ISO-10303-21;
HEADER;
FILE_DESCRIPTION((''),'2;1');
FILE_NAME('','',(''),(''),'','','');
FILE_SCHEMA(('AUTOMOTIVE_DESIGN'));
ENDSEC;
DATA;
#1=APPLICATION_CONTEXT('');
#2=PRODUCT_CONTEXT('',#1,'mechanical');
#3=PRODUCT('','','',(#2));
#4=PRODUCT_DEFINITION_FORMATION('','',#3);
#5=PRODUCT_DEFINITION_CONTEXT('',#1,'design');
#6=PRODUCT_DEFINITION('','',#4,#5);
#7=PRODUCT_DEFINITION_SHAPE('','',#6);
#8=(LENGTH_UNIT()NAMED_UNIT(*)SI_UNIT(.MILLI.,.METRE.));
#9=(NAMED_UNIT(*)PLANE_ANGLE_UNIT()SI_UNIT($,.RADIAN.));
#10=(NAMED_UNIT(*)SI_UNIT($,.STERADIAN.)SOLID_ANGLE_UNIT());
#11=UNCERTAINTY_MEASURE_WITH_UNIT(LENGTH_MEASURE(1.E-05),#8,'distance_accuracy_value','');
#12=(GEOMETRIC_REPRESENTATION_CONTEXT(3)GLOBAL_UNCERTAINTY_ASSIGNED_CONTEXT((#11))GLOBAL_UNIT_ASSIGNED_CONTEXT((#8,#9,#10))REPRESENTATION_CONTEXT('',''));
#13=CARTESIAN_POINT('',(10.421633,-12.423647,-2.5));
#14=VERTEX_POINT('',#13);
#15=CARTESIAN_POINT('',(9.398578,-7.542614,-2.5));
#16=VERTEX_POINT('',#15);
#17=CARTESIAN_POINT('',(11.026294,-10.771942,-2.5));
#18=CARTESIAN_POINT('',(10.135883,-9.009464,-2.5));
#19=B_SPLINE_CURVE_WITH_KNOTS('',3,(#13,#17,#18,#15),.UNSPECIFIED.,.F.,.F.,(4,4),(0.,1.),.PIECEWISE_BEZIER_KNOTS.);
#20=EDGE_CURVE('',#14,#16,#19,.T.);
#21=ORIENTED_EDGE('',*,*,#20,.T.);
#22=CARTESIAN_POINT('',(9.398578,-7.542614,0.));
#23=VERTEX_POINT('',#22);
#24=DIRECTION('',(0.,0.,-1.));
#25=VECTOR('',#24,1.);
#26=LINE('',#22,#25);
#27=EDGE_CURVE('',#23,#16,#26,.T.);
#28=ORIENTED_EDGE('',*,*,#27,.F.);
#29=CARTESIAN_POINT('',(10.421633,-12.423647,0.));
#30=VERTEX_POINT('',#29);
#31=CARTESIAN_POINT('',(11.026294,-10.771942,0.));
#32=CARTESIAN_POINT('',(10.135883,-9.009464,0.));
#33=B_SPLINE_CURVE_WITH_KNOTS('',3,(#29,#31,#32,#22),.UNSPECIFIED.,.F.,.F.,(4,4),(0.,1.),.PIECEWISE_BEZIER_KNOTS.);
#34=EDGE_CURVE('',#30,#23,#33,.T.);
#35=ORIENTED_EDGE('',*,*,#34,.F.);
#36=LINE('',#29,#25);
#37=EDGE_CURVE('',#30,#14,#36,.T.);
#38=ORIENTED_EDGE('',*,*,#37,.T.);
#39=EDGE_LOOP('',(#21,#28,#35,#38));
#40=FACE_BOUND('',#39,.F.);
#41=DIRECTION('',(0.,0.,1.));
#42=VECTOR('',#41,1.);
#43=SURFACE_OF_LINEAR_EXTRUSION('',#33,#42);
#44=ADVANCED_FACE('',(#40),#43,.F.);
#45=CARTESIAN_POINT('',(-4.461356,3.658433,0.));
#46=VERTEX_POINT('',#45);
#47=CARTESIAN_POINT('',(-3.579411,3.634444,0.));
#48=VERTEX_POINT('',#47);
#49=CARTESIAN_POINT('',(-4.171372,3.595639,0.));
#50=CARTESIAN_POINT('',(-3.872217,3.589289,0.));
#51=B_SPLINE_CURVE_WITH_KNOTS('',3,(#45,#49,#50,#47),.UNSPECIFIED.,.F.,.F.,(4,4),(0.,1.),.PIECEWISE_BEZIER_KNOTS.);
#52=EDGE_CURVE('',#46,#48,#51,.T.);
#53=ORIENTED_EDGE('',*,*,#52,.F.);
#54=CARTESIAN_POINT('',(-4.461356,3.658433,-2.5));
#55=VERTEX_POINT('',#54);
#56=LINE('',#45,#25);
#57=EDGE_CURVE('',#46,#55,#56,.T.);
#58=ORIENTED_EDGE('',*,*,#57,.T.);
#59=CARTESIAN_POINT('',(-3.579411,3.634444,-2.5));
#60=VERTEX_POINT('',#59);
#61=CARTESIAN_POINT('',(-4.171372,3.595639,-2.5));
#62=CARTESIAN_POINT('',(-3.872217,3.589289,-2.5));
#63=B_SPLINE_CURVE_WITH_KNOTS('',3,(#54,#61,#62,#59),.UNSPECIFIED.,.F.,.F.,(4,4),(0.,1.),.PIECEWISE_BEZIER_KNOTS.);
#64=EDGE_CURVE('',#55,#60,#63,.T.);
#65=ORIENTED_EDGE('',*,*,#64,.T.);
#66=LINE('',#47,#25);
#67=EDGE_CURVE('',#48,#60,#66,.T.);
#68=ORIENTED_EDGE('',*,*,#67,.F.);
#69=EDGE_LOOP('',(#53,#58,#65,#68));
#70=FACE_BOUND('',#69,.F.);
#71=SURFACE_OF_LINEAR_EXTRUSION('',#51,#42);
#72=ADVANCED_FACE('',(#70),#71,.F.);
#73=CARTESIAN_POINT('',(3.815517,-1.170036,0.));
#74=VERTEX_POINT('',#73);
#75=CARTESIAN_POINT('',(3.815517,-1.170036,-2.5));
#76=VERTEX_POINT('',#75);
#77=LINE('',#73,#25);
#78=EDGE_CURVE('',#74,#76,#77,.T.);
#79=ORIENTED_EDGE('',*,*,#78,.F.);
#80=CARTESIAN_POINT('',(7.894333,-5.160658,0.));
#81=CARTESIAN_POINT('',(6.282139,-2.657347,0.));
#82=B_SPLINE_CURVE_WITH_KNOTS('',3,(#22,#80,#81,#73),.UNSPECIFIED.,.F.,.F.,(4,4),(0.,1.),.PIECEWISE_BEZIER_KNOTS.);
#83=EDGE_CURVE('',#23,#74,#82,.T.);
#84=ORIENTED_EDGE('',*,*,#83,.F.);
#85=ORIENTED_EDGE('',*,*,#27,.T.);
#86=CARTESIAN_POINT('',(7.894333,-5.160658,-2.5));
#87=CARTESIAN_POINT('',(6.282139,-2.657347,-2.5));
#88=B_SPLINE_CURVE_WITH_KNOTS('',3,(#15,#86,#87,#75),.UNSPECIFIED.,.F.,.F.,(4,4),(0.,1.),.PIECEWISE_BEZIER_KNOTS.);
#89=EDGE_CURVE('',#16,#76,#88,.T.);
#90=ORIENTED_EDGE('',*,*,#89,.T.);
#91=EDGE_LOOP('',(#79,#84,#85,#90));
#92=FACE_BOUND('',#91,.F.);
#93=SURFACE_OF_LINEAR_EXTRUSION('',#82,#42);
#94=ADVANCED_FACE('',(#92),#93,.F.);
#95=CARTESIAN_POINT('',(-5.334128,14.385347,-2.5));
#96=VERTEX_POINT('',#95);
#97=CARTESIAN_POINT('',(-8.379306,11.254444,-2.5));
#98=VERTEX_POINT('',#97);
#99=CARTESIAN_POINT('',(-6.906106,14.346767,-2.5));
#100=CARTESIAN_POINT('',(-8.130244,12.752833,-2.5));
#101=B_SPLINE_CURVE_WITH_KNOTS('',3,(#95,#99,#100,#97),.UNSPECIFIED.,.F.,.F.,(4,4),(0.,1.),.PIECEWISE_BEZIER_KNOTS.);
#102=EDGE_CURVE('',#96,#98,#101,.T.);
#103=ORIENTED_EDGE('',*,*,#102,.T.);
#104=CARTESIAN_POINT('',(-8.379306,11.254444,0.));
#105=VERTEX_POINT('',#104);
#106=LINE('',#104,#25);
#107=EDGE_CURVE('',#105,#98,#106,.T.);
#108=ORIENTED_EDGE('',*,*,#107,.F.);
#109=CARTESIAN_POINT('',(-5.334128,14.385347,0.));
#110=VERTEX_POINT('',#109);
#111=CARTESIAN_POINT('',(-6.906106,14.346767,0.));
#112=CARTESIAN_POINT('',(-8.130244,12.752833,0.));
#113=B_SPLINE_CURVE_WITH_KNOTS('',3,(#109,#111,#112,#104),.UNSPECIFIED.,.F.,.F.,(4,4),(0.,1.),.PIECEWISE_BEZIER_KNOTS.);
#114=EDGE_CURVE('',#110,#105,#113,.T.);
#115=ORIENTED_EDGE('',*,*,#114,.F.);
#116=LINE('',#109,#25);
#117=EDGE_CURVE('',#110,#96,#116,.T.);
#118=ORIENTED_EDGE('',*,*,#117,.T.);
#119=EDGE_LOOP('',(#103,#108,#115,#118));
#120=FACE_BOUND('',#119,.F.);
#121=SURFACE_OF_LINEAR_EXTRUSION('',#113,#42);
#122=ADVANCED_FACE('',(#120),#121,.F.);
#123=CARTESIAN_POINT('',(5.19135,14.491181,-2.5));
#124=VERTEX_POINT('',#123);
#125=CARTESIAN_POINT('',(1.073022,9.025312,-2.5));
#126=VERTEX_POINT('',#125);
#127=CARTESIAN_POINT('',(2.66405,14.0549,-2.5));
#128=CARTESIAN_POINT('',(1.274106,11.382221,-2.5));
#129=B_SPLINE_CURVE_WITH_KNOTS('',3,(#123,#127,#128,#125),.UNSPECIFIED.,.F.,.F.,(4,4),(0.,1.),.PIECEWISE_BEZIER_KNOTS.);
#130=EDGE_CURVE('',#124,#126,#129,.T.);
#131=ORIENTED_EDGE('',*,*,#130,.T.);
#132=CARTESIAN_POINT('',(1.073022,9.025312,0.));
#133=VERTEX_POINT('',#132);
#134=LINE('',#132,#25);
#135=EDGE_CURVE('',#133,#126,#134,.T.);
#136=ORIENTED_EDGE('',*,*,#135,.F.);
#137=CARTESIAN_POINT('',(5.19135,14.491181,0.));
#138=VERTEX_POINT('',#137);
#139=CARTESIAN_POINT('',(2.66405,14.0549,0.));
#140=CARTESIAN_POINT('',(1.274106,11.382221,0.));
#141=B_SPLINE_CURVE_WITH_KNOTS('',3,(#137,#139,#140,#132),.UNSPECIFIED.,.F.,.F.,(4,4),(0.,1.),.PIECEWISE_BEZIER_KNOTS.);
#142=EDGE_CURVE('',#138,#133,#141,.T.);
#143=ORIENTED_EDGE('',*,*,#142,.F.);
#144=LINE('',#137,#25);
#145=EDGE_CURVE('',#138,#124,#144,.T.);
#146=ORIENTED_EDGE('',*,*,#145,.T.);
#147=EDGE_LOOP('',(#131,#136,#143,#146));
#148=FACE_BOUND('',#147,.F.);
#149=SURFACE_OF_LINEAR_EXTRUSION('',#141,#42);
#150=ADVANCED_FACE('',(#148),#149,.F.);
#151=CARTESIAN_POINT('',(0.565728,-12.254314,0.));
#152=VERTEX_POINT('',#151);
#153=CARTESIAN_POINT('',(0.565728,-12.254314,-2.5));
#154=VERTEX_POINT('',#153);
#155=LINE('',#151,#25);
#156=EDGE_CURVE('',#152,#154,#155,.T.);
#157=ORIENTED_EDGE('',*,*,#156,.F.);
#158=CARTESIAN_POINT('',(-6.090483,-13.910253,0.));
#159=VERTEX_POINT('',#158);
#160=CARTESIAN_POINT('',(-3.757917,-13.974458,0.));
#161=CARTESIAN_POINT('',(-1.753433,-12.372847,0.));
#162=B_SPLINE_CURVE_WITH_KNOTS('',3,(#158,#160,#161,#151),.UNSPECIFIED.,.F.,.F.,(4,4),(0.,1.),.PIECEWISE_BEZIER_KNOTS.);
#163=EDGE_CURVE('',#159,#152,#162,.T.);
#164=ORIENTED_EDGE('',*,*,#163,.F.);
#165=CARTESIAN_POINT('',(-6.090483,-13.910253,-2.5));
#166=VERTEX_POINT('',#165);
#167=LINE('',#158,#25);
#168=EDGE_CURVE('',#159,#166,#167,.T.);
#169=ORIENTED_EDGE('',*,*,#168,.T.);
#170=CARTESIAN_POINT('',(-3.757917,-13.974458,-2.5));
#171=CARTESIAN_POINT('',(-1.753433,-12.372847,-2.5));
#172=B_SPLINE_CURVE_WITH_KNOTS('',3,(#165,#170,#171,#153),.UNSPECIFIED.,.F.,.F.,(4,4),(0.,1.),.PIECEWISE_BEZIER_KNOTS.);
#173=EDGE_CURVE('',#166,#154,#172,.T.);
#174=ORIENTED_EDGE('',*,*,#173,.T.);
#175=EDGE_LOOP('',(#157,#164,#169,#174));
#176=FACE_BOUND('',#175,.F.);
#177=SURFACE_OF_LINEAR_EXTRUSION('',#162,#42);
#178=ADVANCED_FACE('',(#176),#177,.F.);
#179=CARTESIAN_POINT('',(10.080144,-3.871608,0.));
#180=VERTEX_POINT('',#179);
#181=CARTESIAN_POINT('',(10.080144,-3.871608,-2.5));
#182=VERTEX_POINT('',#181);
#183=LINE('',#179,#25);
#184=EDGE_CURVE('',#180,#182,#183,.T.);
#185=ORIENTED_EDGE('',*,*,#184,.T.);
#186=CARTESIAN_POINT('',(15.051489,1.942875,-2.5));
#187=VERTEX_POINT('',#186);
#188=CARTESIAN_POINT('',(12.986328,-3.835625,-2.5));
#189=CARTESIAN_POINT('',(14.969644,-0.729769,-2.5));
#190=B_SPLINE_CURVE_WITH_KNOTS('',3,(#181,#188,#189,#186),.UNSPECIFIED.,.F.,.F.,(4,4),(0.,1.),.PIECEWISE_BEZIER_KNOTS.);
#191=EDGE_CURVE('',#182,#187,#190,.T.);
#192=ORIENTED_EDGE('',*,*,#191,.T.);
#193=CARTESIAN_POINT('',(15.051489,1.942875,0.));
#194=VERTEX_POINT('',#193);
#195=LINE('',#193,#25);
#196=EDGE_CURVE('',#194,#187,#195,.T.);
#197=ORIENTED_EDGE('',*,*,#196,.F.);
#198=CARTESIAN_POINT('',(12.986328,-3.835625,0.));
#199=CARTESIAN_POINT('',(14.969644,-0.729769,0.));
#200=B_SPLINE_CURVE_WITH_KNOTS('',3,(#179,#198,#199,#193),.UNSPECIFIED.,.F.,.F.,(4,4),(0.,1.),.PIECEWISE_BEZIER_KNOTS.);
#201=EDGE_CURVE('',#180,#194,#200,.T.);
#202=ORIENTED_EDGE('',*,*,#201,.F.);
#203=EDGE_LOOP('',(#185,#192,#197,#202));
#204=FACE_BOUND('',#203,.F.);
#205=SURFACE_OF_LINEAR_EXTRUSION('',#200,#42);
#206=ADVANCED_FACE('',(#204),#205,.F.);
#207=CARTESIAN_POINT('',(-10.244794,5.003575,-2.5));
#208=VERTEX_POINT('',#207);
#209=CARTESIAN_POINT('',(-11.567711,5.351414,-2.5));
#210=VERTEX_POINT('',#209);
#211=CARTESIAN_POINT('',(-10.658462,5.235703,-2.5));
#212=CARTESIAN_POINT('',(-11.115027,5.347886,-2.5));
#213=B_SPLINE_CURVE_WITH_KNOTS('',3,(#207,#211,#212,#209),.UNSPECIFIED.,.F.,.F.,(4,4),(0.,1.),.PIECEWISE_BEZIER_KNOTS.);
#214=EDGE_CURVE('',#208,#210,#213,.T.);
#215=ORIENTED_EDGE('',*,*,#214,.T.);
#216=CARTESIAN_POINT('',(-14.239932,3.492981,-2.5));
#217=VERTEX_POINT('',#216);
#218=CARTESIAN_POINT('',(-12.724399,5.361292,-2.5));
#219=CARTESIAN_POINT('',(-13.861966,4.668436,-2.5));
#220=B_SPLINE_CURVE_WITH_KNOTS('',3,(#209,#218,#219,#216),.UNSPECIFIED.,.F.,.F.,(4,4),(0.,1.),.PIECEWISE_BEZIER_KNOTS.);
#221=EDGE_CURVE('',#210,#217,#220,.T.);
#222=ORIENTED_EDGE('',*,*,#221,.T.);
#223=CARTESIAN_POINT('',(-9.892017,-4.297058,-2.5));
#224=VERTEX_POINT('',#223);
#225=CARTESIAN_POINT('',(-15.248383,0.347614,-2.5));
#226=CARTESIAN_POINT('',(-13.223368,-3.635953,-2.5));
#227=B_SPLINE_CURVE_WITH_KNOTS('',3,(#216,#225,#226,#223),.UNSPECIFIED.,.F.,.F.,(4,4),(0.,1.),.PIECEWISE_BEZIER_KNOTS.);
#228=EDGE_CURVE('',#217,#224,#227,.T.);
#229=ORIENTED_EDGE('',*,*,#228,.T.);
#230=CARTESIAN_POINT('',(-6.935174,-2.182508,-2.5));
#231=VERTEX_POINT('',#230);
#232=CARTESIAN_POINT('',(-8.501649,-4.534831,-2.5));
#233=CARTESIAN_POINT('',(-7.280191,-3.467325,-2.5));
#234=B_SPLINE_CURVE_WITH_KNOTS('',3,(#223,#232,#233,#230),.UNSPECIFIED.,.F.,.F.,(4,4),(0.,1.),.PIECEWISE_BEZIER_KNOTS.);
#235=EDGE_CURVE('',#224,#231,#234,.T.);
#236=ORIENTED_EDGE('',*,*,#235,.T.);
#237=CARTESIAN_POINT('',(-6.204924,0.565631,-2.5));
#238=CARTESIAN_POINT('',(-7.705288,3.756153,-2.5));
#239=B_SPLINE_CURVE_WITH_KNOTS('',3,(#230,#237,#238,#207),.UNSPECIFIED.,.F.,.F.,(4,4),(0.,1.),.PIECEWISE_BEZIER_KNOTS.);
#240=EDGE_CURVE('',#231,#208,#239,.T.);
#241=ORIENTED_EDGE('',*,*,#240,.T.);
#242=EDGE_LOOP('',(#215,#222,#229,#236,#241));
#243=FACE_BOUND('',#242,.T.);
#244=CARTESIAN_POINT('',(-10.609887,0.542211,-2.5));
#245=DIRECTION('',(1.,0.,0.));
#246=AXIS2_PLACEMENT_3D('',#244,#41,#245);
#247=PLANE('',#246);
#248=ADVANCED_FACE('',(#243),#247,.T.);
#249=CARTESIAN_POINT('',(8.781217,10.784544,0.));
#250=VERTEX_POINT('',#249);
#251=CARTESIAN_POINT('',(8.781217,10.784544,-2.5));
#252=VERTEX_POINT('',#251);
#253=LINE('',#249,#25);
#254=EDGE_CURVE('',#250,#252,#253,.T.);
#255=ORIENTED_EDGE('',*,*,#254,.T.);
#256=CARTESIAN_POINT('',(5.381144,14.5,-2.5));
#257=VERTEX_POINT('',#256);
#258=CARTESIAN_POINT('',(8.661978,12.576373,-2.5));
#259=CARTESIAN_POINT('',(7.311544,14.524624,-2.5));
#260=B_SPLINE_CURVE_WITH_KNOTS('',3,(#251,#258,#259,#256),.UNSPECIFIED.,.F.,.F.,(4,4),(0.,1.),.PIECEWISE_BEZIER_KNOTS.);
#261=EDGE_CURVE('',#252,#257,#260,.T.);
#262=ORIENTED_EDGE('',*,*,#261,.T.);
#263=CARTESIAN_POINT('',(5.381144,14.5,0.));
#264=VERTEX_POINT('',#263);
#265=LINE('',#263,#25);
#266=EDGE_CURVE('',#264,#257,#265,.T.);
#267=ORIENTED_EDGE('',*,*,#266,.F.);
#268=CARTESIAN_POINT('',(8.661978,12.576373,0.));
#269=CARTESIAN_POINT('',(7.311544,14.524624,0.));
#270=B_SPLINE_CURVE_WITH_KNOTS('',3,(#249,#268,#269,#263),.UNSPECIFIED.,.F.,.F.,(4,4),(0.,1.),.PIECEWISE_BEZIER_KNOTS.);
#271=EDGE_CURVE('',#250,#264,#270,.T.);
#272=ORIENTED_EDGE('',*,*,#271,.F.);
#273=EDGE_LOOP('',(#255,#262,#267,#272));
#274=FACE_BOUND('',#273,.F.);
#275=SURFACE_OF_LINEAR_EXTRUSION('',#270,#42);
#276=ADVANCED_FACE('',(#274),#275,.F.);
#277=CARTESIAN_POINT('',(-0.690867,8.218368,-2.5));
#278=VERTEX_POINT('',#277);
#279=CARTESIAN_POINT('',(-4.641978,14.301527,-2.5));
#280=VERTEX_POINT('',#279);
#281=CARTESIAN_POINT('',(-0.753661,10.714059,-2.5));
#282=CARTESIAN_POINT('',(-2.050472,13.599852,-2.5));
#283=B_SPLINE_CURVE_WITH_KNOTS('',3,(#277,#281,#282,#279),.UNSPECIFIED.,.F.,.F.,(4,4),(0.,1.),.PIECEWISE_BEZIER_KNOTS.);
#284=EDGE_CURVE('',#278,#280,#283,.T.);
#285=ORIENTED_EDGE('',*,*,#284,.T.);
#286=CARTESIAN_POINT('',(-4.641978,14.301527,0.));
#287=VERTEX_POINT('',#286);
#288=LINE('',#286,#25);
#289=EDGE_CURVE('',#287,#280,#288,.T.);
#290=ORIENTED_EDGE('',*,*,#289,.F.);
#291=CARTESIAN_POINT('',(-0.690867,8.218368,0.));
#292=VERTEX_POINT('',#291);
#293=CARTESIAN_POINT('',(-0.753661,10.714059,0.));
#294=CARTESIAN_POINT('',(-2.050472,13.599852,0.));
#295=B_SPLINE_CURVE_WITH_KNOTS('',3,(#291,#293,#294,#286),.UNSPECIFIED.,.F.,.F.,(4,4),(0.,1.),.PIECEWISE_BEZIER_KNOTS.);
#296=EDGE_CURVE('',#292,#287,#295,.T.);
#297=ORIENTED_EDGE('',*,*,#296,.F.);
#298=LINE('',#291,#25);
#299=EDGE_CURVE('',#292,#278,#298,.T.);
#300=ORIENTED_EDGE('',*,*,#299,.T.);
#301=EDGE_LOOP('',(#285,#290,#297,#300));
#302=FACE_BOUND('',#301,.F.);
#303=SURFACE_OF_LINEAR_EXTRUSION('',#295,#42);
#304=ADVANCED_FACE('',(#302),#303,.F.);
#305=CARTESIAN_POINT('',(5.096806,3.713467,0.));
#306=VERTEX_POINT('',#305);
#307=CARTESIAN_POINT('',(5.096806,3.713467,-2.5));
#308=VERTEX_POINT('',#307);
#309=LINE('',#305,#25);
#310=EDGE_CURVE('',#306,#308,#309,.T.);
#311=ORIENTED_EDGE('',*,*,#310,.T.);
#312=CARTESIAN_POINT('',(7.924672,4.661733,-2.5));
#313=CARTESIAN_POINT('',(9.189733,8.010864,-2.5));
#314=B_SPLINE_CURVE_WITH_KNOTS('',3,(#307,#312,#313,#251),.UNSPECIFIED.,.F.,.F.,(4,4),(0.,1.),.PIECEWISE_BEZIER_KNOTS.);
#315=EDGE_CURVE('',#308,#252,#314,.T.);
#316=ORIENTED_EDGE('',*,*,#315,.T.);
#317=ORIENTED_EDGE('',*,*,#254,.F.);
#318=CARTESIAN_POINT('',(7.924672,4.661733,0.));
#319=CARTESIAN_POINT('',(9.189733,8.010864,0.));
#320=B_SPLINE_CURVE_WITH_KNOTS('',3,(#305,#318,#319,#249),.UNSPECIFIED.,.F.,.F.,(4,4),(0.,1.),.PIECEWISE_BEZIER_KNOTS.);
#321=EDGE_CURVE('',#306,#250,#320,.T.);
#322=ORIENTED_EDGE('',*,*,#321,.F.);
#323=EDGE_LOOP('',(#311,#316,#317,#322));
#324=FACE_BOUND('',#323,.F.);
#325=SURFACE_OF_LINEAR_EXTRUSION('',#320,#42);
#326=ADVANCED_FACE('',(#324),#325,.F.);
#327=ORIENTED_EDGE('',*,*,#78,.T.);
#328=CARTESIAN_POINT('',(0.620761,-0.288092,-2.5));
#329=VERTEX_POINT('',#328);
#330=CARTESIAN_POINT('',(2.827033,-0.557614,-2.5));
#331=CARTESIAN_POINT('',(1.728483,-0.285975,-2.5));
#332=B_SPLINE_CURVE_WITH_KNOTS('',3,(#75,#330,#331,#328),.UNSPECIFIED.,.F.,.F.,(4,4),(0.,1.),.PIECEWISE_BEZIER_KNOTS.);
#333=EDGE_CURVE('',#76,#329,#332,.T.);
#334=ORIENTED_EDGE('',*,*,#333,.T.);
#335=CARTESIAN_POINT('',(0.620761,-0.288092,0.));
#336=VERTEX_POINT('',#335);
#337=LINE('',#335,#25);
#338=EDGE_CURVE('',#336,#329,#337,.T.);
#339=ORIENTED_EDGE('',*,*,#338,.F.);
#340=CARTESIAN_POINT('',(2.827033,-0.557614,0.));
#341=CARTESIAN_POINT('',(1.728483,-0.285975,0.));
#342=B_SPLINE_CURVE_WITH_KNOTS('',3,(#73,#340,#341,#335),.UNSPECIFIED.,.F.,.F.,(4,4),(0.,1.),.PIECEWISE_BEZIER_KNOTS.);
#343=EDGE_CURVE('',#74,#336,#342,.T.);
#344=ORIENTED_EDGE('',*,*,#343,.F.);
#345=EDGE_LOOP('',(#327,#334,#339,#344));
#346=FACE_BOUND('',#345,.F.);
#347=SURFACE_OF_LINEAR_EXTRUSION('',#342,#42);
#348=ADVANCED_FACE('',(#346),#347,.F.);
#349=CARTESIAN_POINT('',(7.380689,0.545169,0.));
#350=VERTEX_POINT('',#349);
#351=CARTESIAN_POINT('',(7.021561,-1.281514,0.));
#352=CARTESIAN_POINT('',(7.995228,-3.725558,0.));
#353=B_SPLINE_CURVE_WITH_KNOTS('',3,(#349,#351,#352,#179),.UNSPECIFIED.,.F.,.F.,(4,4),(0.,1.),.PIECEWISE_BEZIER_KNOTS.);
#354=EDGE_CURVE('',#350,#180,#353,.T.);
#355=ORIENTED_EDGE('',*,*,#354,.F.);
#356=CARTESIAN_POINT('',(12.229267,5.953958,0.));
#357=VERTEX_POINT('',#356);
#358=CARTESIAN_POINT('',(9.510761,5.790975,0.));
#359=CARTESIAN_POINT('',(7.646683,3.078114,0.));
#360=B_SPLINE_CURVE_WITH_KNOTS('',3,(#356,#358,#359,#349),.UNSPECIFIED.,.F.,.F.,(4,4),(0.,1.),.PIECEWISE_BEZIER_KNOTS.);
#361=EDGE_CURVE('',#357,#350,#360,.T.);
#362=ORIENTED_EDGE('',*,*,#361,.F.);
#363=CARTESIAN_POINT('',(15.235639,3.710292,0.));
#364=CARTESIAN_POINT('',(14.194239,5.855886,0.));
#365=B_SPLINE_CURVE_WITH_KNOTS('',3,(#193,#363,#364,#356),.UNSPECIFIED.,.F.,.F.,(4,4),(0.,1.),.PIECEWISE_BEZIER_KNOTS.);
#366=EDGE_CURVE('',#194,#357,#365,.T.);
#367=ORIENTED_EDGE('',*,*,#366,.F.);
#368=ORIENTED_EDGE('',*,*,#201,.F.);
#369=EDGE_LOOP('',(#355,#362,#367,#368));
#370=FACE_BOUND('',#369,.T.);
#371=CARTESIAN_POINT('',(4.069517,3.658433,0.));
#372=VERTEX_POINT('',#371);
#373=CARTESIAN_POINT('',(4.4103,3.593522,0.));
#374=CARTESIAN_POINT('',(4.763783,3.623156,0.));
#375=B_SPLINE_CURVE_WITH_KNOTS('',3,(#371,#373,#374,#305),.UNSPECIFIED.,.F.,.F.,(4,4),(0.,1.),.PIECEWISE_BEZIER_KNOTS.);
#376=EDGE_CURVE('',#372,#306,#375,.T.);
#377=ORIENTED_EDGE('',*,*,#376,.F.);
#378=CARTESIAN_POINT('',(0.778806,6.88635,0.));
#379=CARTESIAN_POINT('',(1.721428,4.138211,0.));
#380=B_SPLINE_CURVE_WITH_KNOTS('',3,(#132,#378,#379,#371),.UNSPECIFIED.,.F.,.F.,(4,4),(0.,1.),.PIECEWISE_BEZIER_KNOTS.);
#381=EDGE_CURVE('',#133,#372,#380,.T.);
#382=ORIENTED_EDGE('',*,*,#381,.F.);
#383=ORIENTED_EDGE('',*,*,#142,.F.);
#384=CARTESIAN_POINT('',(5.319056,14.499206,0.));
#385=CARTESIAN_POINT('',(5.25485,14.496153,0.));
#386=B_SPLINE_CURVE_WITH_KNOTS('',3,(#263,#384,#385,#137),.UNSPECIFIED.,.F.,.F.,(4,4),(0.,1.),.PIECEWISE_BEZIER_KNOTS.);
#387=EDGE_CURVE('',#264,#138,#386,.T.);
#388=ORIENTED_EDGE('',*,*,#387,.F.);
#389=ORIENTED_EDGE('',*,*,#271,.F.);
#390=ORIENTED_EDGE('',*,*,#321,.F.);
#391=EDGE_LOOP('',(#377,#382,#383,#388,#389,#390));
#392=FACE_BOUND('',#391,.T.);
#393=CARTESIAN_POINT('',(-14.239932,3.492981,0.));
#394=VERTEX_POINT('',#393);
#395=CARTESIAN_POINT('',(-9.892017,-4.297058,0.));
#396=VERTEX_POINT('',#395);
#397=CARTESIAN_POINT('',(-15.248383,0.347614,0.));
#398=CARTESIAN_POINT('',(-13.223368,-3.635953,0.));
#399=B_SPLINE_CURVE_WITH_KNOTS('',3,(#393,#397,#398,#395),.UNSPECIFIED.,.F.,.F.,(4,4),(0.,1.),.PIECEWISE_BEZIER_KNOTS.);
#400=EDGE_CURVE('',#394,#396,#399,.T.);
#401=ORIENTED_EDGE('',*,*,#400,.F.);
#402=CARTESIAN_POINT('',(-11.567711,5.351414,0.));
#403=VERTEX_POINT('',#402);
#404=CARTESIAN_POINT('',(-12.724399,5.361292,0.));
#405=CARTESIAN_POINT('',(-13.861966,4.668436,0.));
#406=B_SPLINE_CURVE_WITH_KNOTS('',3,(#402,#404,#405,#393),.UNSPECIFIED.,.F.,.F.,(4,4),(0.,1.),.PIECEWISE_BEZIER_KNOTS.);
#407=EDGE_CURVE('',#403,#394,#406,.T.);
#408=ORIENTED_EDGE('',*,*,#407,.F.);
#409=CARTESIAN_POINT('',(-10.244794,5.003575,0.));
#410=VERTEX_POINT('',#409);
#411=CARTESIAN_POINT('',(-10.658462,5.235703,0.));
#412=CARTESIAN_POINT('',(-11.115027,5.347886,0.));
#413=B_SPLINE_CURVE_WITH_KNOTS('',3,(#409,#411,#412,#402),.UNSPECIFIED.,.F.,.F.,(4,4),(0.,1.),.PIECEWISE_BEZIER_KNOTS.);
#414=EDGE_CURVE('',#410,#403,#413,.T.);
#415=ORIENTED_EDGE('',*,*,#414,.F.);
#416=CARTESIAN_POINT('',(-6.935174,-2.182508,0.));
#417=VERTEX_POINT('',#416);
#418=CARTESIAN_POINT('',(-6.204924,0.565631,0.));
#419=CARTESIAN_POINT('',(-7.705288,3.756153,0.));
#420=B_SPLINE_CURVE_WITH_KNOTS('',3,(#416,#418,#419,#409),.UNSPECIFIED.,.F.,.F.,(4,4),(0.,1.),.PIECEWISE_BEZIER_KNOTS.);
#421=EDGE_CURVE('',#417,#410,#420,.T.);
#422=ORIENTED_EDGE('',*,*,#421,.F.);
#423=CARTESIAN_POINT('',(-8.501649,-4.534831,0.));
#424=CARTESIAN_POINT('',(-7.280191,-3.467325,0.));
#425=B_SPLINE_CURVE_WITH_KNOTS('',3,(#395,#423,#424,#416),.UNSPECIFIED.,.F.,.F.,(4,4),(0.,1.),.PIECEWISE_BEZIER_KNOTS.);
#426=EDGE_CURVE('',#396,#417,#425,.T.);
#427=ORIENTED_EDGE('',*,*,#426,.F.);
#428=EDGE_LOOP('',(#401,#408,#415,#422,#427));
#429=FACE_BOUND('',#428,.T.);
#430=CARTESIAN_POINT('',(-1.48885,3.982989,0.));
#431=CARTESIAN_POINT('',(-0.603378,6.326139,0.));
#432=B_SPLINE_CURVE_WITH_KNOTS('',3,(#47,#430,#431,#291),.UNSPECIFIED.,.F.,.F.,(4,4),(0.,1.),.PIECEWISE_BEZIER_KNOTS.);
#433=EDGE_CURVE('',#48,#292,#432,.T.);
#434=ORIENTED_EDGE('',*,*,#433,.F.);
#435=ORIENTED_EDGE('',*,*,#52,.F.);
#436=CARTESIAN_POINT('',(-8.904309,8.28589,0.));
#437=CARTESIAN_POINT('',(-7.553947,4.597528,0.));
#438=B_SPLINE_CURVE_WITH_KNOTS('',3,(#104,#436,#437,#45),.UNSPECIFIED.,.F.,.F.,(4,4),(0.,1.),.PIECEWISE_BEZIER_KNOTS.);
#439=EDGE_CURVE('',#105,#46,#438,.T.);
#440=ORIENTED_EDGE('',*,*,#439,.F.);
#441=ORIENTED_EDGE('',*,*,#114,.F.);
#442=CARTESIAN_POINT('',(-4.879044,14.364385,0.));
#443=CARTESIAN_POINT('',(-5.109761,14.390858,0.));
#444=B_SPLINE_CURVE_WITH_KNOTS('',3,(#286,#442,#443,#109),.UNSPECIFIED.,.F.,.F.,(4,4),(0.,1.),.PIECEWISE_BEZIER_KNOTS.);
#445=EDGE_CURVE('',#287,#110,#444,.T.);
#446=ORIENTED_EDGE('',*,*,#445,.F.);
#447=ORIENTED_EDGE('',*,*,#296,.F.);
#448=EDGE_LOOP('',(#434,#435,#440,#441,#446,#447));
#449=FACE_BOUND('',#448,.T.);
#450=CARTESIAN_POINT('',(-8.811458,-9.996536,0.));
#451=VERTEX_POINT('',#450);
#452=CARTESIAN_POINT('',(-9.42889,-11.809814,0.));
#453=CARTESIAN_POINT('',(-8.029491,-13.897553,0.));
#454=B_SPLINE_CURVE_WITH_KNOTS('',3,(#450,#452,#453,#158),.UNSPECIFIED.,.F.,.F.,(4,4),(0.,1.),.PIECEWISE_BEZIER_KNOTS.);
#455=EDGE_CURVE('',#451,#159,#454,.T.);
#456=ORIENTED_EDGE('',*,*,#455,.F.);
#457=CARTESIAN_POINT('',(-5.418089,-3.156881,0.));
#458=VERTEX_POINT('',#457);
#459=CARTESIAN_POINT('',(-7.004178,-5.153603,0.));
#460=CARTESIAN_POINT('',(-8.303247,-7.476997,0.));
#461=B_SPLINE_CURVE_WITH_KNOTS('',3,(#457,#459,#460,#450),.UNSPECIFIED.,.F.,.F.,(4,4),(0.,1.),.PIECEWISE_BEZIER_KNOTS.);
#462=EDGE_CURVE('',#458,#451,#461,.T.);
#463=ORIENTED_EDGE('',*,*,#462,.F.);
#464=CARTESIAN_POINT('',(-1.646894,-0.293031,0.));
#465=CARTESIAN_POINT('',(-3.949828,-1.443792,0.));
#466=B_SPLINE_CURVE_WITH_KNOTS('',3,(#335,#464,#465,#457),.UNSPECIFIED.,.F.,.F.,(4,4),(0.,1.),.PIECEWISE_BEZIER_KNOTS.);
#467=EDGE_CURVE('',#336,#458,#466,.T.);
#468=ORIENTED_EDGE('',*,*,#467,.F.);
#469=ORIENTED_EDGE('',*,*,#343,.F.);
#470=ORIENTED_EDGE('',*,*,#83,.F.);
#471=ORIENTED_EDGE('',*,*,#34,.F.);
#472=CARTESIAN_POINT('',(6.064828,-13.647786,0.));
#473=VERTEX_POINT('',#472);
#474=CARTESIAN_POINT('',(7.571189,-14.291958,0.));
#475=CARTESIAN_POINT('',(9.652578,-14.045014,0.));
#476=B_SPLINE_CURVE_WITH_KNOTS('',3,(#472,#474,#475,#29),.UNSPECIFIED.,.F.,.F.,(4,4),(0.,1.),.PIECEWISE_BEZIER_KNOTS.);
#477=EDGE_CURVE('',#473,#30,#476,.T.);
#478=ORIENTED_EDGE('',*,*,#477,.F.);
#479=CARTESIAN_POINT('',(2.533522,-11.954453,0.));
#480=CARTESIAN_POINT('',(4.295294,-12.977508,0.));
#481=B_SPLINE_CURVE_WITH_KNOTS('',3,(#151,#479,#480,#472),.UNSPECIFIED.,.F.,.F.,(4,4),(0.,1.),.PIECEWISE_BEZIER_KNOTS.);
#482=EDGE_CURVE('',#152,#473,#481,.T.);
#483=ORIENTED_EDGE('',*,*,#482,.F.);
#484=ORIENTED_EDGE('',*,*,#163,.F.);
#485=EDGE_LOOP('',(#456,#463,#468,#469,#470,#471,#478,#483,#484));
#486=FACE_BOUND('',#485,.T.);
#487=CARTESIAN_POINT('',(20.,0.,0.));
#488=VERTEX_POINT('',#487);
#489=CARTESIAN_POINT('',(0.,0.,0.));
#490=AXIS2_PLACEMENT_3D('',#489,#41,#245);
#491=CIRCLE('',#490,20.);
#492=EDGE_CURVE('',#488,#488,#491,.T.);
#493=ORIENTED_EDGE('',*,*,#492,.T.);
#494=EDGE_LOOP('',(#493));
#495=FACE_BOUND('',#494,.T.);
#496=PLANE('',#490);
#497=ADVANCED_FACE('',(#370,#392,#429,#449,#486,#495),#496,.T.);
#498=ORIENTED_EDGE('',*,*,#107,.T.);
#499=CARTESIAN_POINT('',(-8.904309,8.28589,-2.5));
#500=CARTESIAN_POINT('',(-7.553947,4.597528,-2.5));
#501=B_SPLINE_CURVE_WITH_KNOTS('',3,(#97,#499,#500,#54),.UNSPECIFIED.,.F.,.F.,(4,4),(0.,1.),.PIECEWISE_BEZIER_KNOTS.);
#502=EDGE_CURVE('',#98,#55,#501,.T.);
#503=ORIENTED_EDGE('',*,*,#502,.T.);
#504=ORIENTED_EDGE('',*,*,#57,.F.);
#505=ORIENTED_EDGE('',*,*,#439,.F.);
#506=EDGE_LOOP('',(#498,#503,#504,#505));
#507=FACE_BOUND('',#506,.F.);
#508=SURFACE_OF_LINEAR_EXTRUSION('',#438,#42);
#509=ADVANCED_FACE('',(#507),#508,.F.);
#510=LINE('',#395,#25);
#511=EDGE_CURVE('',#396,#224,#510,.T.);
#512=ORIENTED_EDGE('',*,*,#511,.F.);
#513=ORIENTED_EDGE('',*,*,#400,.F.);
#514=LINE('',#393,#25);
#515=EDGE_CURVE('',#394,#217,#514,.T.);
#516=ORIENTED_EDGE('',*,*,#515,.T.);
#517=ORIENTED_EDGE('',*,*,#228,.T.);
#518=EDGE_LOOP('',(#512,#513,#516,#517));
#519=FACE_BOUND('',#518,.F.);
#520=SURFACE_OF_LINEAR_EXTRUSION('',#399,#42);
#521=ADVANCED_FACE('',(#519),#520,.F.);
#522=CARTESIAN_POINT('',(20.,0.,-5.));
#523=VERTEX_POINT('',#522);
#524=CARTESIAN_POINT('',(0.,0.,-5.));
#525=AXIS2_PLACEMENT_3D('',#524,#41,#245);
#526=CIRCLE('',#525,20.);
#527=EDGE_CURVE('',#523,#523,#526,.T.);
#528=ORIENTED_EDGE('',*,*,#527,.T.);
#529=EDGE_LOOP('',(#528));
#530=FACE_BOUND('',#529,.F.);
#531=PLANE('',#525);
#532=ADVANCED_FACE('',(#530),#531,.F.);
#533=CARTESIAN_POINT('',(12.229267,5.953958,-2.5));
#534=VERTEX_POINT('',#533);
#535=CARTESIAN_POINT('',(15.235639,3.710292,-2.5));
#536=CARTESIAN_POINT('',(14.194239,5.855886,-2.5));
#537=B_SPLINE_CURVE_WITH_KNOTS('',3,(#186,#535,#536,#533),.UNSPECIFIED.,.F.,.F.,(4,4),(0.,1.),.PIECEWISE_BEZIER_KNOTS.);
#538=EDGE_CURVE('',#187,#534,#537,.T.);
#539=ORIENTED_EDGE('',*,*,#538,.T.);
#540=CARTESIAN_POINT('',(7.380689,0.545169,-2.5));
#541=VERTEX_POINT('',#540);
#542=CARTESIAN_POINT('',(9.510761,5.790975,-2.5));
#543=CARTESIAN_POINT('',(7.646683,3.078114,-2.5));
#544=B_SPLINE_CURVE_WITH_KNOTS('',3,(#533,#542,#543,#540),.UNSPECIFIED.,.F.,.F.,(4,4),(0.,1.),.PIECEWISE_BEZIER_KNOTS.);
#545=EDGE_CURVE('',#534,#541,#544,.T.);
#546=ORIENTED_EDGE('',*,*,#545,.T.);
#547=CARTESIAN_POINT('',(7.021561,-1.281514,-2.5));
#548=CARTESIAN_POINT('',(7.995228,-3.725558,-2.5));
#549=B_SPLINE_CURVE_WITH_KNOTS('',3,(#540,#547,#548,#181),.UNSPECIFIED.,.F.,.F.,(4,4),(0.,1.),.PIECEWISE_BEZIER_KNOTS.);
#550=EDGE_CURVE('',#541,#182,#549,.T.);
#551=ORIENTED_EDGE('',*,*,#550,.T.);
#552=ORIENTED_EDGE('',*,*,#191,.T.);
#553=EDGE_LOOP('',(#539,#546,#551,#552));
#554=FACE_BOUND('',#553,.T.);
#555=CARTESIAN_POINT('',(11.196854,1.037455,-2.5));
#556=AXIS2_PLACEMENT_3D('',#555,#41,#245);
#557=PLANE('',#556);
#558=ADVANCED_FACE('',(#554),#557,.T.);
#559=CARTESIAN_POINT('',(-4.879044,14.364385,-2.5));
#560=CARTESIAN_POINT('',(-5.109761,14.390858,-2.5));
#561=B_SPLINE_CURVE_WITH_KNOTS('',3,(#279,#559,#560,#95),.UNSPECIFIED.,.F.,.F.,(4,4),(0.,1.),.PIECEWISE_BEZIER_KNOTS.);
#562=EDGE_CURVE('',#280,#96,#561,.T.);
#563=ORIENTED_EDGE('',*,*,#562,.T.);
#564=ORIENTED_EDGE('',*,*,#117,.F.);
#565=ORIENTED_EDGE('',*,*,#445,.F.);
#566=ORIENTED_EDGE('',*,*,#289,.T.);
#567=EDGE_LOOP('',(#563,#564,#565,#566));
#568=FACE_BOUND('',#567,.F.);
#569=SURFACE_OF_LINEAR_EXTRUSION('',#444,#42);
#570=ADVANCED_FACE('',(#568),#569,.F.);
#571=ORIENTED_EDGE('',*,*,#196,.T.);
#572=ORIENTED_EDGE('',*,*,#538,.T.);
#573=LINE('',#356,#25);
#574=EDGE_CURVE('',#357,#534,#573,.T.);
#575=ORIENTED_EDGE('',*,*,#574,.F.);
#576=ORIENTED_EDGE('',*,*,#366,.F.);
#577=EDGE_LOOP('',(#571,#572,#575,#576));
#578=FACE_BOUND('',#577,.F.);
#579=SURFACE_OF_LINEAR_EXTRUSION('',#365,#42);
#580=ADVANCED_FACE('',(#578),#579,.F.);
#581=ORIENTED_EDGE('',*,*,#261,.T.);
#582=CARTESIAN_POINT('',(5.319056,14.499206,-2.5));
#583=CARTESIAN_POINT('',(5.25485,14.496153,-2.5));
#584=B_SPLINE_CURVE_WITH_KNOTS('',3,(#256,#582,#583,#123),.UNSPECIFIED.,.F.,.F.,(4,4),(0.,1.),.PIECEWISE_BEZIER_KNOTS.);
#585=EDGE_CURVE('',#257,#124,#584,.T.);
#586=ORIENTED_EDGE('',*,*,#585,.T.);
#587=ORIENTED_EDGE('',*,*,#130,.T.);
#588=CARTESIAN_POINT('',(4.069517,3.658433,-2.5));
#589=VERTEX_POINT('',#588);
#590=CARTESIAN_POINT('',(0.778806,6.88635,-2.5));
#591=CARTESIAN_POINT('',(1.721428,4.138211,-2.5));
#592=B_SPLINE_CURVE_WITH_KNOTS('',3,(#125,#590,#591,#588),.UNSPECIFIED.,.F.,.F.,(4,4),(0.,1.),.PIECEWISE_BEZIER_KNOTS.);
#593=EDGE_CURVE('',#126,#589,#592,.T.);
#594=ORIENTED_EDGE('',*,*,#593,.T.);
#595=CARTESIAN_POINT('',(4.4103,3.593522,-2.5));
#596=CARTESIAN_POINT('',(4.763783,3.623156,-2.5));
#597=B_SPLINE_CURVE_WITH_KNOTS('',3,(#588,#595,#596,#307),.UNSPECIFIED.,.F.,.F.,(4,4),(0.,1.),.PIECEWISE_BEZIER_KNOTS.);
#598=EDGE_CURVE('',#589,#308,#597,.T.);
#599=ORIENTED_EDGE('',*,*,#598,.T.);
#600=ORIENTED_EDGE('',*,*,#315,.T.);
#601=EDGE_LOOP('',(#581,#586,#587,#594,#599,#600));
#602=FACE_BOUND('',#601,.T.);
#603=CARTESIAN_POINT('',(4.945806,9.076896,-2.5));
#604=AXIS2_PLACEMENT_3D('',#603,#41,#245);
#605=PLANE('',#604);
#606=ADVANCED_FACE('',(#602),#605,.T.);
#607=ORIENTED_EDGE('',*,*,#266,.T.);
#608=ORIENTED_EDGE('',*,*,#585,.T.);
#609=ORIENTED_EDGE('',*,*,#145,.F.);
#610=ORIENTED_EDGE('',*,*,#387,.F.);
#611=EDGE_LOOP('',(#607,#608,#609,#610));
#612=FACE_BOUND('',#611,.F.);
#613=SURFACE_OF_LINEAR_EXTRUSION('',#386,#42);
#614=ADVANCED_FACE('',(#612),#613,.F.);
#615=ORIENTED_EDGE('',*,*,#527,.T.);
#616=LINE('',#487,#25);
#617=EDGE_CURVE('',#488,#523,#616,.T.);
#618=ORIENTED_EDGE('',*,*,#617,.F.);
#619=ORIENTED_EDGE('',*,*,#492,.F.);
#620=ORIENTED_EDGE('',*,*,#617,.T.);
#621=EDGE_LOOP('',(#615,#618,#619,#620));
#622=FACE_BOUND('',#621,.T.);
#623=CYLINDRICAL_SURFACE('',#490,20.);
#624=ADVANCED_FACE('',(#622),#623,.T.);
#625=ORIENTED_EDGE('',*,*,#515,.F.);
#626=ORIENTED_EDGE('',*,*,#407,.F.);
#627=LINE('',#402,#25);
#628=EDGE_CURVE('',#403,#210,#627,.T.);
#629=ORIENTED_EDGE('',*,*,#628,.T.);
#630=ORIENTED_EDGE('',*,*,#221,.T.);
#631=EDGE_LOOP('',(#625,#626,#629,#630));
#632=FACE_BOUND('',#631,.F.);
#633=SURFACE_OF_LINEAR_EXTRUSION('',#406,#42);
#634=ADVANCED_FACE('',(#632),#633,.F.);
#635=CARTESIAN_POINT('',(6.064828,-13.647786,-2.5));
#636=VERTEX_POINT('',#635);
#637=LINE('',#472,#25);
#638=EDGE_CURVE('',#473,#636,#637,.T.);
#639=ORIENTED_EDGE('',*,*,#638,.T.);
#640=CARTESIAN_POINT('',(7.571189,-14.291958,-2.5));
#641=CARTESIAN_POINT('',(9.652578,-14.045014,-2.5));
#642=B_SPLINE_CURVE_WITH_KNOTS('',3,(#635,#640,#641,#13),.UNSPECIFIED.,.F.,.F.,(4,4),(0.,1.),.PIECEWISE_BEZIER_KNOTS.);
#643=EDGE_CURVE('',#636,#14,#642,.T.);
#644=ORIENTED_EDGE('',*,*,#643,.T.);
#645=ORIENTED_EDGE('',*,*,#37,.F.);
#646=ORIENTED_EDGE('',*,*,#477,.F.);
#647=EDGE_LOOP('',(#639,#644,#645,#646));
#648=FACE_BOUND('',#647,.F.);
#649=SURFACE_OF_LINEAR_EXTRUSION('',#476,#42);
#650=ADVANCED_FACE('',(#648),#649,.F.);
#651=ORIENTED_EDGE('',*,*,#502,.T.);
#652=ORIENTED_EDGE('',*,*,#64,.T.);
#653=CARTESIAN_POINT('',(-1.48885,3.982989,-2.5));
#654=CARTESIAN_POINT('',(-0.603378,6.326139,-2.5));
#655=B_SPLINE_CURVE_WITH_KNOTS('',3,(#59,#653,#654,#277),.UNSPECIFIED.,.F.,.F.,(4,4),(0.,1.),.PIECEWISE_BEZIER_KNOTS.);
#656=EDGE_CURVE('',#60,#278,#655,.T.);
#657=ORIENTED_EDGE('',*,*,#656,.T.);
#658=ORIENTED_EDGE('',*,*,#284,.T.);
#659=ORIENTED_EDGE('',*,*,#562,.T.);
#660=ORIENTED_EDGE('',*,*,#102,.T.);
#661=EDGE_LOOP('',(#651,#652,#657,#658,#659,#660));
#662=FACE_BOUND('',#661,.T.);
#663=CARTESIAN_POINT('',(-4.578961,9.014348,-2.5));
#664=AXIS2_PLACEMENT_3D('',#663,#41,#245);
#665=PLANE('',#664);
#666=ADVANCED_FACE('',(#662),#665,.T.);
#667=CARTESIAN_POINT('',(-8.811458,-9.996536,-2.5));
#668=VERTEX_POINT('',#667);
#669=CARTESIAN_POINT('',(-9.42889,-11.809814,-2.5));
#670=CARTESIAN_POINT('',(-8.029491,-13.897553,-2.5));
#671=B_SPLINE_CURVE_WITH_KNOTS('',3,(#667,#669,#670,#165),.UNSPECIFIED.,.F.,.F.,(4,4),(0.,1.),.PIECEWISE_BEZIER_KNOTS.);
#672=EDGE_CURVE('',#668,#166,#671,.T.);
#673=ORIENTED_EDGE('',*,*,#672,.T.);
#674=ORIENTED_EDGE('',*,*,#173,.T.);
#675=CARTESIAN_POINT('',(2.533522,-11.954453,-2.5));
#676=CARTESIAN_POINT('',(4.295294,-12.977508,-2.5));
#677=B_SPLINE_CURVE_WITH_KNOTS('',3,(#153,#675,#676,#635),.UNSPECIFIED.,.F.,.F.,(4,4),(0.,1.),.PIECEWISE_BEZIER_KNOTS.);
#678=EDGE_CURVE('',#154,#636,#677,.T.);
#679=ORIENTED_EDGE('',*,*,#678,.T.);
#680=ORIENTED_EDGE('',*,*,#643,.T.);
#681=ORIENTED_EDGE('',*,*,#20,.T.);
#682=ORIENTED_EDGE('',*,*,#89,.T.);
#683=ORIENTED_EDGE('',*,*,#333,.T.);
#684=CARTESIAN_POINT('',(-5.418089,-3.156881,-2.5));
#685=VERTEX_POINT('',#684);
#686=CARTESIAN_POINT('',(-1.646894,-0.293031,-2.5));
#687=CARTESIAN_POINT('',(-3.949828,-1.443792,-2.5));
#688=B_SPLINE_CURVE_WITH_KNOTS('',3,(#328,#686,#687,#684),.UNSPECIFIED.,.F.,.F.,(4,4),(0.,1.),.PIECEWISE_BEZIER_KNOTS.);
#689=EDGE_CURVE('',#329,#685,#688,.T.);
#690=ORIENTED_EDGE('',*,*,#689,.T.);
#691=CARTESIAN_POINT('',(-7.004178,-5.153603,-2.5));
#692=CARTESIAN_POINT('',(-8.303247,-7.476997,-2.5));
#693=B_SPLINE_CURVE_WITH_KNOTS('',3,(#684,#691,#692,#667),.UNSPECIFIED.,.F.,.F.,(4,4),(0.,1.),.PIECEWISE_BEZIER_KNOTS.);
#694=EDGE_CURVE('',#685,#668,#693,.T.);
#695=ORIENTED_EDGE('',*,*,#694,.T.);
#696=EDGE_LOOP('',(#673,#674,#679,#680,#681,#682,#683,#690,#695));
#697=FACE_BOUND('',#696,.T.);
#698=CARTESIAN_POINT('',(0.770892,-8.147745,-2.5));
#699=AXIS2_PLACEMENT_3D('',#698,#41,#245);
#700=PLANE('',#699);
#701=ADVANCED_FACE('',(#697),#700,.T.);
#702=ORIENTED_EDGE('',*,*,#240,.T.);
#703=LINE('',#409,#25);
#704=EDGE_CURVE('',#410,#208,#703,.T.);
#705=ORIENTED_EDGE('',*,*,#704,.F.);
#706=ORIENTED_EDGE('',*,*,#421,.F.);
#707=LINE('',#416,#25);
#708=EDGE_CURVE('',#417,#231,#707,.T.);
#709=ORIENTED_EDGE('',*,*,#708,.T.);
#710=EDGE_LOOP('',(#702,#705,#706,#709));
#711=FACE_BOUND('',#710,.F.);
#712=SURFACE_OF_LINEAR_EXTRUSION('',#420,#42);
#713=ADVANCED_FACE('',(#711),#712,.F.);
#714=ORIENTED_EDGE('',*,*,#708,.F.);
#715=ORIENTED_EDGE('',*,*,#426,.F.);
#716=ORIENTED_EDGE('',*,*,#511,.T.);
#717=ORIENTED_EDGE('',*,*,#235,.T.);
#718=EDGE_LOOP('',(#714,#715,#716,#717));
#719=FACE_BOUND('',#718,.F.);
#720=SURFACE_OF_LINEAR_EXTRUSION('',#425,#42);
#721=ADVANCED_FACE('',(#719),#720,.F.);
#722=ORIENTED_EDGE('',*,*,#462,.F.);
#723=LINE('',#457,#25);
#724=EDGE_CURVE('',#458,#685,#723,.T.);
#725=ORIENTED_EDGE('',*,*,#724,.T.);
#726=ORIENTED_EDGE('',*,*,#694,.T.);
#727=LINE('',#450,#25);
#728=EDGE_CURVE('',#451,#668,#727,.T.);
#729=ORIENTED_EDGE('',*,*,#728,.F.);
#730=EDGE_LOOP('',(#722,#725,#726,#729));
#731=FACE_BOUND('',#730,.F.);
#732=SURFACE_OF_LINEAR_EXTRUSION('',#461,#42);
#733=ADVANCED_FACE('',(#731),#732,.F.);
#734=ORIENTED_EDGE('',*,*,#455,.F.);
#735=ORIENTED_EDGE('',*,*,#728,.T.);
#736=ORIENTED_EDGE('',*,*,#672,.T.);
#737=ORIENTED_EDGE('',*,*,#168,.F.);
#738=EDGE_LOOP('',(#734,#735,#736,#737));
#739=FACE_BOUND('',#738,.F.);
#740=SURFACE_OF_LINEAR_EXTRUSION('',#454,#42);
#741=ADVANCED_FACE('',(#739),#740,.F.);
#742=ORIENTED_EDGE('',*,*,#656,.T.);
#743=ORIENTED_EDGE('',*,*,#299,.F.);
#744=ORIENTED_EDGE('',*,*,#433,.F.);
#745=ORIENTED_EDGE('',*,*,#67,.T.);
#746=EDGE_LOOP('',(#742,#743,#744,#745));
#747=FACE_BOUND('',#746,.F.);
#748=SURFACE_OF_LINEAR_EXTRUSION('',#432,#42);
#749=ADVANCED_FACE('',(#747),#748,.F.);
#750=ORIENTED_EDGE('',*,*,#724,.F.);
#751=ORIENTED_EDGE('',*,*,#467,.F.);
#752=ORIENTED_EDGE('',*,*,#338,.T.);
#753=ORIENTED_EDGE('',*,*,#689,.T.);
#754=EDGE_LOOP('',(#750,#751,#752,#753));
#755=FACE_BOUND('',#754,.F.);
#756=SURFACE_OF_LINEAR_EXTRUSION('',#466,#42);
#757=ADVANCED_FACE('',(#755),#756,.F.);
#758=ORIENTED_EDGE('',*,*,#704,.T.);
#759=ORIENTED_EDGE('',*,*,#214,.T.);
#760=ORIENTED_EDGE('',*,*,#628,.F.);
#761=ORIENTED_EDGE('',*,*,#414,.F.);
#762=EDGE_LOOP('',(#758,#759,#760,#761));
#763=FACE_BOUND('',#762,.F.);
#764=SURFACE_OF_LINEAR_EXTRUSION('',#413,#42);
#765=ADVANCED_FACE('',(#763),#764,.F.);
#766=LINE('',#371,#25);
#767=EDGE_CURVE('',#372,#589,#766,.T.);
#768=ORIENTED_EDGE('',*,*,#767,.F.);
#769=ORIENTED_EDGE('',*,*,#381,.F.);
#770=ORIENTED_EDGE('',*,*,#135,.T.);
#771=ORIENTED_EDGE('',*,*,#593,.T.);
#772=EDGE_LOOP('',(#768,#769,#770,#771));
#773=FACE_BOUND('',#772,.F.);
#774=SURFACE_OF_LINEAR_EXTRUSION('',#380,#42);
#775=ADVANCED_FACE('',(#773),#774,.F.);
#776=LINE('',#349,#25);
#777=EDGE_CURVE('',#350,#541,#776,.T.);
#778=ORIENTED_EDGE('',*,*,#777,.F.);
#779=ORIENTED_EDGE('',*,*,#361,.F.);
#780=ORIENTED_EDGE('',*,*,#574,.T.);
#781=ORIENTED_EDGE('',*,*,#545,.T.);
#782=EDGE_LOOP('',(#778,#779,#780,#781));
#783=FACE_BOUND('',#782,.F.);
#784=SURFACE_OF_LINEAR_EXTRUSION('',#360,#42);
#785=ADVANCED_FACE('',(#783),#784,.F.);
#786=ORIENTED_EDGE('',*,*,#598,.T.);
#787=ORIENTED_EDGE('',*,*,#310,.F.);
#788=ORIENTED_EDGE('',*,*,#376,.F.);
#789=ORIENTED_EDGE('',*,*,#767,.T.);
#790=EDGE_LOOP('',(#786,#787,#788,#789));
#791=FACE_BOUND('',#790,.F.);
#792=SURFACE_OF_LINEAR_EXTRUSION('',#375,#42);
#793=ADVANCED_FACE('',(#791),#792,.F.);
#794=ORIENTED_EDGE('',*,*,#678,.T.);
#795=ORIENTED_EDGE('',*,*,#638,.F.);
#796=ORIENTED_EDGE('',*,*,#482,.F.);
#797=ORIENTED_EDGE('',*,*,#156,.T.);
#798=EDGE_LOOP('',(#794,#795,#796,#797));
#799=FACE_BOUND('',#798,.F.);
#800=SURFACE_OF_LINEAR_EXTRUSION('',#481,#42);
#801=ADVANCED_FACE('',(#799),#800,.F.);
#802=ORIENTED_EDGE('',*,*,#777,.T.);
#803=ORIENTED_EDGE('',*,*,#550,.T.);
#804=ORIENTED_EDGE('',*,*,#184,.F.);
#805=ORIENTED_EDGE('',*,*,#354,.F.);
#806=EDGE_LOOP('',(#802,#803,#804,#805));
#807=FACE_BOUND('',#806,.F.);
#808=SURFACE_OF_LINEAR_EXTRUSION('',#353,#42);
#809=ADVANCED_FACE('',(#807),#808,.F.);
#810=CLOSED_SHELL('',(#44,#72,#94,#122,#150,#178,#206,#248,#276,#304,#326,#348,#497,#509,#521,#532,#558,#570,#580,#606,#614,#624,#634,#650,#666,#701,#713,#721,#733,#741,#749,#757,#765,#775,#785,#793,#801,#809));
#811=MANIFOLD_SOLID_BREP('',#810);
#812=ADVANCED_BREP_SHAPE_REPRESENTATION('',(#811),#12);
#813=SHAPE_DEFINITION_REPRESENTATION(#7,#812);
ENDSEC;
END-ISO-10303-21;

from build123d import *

# Parameters (mm, degrees)
SKETCH001_R  = 20
PAD_DEPTH    = 5
POCKET_DEPTH = 2.5


with BuildPart() as part:
    # Sketch001 (on DatumPlane) → Pad (new body)
    with BuildSketch(Plane.XY):
        Circle(SKETCH001_R)
    extrude(amount=-PAD_DEPTH)

    # Sketch (on DatumPlane) → Pocket (cut)
    with BuildSketch(Plane(origin=(-14.5, 14.5, 0), x_dir=(1, 0, 0), z_dir=(0, 0, 1))):
        with BuildLine():
            add(Edge.make_bspline(
                [(19.881144, 0), (19.819056, -0.000794), (19.75485, -0.003847), (19.69135, -0.008819)],
                knots=[0, 0, 0, 0, 1, 1, 1, 1], degree=3))
            add(Edge.make_bspline(
                [(19.69135, -0.008819), (17.16405, -0.4451), (15.774106, -3.117779), (15.573022, -5.474688)],
                knots=[0, 0, 0, 0, 1, 1, 1, 1], degree=3))
            add(Edge.make_bspline(
                [(15.573022, -5.474688), (15.278806, -7.61365), (16.221428, -10.361789), (18.569517, -10.841567)],
                knots=[0, 0, 0, 0, 1, 1, 1, 1], degree=3))
            add(Edge.make_bspline(
                [(18.569517, -10.841567), (18.9103, -10.906478), (19.263783, -10.876844), (19.596806, -10.786533)],
                knots=[0, 0, 0, 0, 1, 1, 1, 1], degree=3))
            add(Edge.make_bspline(
                [(19.596806, -10.786533), (22.424672, -9.838267), (23.689733, -6.489136), (23.281217, -3.715456)],
                knots=[0, 0, 0, 0, 1, 1, 1, 1], degree=3))
            add(Edge.make_bspline(
                [(23.281217, -3.715456), (23.161978, -1.923627), (21.811544, 0.024624), (19.881144, 0)],
                knots=[0, 0, 0, 0, 1, 1, 1, 1], degree=3))
        make_face()
        with BuildLine():
            add(Edge.make_bspline(
                [(9.165872, -0.114653), (7.593894, -0.153233), (6.369756, -1.747167), (6.120694, -3.245556)],
                knots=[0, 0, 0, 0, 1, 1, 1, 1], degree=3))
            add(Edge.make_bspline(
                [(6.120694, -3.245556), (5.595691, -6.21411), (6.946053, -9.902472), (10.038644, -10.841567)],
                knots=[0, 0, 0, 0, 1, 1, 1, 1], degree=3))
            add(Edge.make_bspline(
                [(10.038644, -10.841567), (10.328628, -10.904361), (10.627783, -10.910711), (10.920589, -10.865556)],
                knots=[0, 0, 0, 0, 1, 1, 1, 1], degree=3))
            add(Edge.make_bspline(
                [(10.920589, -10.865556), (13.01115, -10.517011), (13.896622, -8.173861), (13.809133, -6.281632)],
                knots=[0, 0, 0, 0, 1, 1, 1, 1], degree=3))
            add(Edge.make_bspline(
                [(13.809133, -6.281632), (13.746339, -3.785941), (12.449528, -0.900148), (9.858022, -0.198473)],
                knots=[0, 0, 0, 0, 1, 1, 1, 1], degree=3))
            add(Edge.make_bspline(
                [(9.858022, -0.198473), (9.620956, -0.135615), (9.390239, -0.109142), (9.165872, -0.114653)],
                knots=[0, 0, 0, 0, 1, 1, 1, 1], degree=3))
        make_face()
        with BuildLine():
            add(Edge.make_bspline(
                [(26.729267, -8.546042), (24.010761, -8.709025), (22.146683, -11.421886), (21.880689, -13.954831)],
                knots=[0, 0, 0, 0, 1, 1, 1, 1], degree=3))
            add(Edge.make_bspline(
                [(21.880689, -13.954831), (21.521561, -15.781514), (22.495228, -18.225558), (24.580144, -18.371608)],
                knots=[0, 0, 0, 0, 1, 1, 1, 1], degree=3))
            add(Edge.make_bspline(
                [(24.580144, -18.371608), (27.486328, -18.335625), (29.469644, -15.229769), (29.551489, -12.557125)],
                knots=[0, 0, 0, 0, 1, 1, 1, 1], degree=3))
            add(Edge.make_bspline(
                [(29.551489, -12.557125), (29.735639, -10.789708), (28.694239, -8.644114), (26.729267, -8.546042)],
                knots=[0, 0, 0, 0, 1, 1, 1, 1], degree=3))
        make_face()
        with BuildLine():
            add(Edge.make_bspline(
                [(2.932289, -9.148586), (1.775601, -9.138708), (0.638034, -9.831564), (0.260068, -11.007019)],
                knots=[0, 0, 0, 0, 1, 1, 1, 1], degree=3))
            add(Edge.make_bspline(
                [(0.260068, -11.007019), (-0.748383, -14.152386), (1.276632, -18.135953), (4.607983, -18.797058)],
                knots=[0, 0, 0, 0, 1, 1, 1, 1], degree=3))
            add(Edge.make_bspline(
                [(4.607983, -18.797058), (5.998351, -19.034831), (7.219809, -17.967325), (7.564826, -16.682508)],
                knots=[0, 0, 0, 0, 1, 1, 1, 1], degree=3))
            add(Edge.make_bspline(
                [(7.564826, -16.682508), (8.295076, -13.934369), (6.794712, -10.743847), (4.255206, -9.496425)],
                knots=[0, 0, 0, 0, 1, 1, 1, 1], degree=3))
            add(Edge.make_bspline(
                [(4.255206, -9.496425), (3.841538, -9.264297), (3.384973, -9.152114), (2.932289, -9.148586)],
                knots=[0, 0, 0, 0, 1, 1, 1, 1], degree=3))
        make_face()
        with BuildLine():
            add(Edge.make_bspline(
                [(15.120761, -14.788092), (12.853106, -14.793031), (10.550172, -15.943792), (9.081911, -17.656881)],
                knots=[0, 0, 0, 0, 1, 1, 1, 1], degree=3))
            add(Edge.make_bspline(
                [(9.081911, -17.656881), (7.495822, -19.653603), (6.196753, -21.976997), (5.688542, -24.496536)],
                knots=[0, 0, 0, 0, 1, 1, 1, 1], degree=3))
            add(Edge.make_bspline(
                [(5.688542, -24.496536), (5.07111, -26.309814), (6.470509, -28.397553), (8.409517, -28.410253)],
                knots=[0, 0, 0, 0, 1, 1, 1, 1], degree=3))
            add(Edge.make_bspline(
                [(8.409517, -28.410253), (10.742083, -28.474458), (12.746567, -26.872847), (15.065728, -26.754314)],
                knots=[0, 0, 0, 0, 1, 1, 1, 1], degree=3))
            add(Edge.make_bspline(
                [(15.065728, -26.754314), (17.033522, -26.454453), (18.795294, -27.477508), (20.564828, -28.147786)],
                knots=[0, 0, 0, 0, 1, 1, 1, 1], degree=3))
            add(Edge.make_bspline(
                [(20.564828, -28.147786), (22.071189, -28.791958), (24.152578, -28.545014), (24.921633, -26.923647)],
                knots=[0, 0, 0, 0, 1, 1, 1, 1], degree=3))
            add(Edge.make_bspline(
                [(24.921633, -26.923647), (25.526294, -25.271942), (24.635883, -23.509464), (23.898578, -22.042614)],
                knots=[0, 0, 0, 0, 1, 1, 1, 1], degree=3))
            add(Edge.make_bspline(
                [(23.898578, -22.042614), (22.394333, -19.660658), (20.782139, -17.157347), (18.315517, -15.670036)],
                knots=[0, 0, 0, 0, 1, 1, 1, 1], degree=3))
            add(Edge.make_bspline(
                [(18.315517, -15.670036), (17.327033, -15.057614), (16.228483, -14.785975), (15.120761, -14.788092)],
                knots=[0, 0, 0, 0, 1, 1, 1, 1], degree=3))
        make_face()
    extrude(amount=-POCKET_DEPTH, mode=Mode.SUBTRACT)


solid = part.part
